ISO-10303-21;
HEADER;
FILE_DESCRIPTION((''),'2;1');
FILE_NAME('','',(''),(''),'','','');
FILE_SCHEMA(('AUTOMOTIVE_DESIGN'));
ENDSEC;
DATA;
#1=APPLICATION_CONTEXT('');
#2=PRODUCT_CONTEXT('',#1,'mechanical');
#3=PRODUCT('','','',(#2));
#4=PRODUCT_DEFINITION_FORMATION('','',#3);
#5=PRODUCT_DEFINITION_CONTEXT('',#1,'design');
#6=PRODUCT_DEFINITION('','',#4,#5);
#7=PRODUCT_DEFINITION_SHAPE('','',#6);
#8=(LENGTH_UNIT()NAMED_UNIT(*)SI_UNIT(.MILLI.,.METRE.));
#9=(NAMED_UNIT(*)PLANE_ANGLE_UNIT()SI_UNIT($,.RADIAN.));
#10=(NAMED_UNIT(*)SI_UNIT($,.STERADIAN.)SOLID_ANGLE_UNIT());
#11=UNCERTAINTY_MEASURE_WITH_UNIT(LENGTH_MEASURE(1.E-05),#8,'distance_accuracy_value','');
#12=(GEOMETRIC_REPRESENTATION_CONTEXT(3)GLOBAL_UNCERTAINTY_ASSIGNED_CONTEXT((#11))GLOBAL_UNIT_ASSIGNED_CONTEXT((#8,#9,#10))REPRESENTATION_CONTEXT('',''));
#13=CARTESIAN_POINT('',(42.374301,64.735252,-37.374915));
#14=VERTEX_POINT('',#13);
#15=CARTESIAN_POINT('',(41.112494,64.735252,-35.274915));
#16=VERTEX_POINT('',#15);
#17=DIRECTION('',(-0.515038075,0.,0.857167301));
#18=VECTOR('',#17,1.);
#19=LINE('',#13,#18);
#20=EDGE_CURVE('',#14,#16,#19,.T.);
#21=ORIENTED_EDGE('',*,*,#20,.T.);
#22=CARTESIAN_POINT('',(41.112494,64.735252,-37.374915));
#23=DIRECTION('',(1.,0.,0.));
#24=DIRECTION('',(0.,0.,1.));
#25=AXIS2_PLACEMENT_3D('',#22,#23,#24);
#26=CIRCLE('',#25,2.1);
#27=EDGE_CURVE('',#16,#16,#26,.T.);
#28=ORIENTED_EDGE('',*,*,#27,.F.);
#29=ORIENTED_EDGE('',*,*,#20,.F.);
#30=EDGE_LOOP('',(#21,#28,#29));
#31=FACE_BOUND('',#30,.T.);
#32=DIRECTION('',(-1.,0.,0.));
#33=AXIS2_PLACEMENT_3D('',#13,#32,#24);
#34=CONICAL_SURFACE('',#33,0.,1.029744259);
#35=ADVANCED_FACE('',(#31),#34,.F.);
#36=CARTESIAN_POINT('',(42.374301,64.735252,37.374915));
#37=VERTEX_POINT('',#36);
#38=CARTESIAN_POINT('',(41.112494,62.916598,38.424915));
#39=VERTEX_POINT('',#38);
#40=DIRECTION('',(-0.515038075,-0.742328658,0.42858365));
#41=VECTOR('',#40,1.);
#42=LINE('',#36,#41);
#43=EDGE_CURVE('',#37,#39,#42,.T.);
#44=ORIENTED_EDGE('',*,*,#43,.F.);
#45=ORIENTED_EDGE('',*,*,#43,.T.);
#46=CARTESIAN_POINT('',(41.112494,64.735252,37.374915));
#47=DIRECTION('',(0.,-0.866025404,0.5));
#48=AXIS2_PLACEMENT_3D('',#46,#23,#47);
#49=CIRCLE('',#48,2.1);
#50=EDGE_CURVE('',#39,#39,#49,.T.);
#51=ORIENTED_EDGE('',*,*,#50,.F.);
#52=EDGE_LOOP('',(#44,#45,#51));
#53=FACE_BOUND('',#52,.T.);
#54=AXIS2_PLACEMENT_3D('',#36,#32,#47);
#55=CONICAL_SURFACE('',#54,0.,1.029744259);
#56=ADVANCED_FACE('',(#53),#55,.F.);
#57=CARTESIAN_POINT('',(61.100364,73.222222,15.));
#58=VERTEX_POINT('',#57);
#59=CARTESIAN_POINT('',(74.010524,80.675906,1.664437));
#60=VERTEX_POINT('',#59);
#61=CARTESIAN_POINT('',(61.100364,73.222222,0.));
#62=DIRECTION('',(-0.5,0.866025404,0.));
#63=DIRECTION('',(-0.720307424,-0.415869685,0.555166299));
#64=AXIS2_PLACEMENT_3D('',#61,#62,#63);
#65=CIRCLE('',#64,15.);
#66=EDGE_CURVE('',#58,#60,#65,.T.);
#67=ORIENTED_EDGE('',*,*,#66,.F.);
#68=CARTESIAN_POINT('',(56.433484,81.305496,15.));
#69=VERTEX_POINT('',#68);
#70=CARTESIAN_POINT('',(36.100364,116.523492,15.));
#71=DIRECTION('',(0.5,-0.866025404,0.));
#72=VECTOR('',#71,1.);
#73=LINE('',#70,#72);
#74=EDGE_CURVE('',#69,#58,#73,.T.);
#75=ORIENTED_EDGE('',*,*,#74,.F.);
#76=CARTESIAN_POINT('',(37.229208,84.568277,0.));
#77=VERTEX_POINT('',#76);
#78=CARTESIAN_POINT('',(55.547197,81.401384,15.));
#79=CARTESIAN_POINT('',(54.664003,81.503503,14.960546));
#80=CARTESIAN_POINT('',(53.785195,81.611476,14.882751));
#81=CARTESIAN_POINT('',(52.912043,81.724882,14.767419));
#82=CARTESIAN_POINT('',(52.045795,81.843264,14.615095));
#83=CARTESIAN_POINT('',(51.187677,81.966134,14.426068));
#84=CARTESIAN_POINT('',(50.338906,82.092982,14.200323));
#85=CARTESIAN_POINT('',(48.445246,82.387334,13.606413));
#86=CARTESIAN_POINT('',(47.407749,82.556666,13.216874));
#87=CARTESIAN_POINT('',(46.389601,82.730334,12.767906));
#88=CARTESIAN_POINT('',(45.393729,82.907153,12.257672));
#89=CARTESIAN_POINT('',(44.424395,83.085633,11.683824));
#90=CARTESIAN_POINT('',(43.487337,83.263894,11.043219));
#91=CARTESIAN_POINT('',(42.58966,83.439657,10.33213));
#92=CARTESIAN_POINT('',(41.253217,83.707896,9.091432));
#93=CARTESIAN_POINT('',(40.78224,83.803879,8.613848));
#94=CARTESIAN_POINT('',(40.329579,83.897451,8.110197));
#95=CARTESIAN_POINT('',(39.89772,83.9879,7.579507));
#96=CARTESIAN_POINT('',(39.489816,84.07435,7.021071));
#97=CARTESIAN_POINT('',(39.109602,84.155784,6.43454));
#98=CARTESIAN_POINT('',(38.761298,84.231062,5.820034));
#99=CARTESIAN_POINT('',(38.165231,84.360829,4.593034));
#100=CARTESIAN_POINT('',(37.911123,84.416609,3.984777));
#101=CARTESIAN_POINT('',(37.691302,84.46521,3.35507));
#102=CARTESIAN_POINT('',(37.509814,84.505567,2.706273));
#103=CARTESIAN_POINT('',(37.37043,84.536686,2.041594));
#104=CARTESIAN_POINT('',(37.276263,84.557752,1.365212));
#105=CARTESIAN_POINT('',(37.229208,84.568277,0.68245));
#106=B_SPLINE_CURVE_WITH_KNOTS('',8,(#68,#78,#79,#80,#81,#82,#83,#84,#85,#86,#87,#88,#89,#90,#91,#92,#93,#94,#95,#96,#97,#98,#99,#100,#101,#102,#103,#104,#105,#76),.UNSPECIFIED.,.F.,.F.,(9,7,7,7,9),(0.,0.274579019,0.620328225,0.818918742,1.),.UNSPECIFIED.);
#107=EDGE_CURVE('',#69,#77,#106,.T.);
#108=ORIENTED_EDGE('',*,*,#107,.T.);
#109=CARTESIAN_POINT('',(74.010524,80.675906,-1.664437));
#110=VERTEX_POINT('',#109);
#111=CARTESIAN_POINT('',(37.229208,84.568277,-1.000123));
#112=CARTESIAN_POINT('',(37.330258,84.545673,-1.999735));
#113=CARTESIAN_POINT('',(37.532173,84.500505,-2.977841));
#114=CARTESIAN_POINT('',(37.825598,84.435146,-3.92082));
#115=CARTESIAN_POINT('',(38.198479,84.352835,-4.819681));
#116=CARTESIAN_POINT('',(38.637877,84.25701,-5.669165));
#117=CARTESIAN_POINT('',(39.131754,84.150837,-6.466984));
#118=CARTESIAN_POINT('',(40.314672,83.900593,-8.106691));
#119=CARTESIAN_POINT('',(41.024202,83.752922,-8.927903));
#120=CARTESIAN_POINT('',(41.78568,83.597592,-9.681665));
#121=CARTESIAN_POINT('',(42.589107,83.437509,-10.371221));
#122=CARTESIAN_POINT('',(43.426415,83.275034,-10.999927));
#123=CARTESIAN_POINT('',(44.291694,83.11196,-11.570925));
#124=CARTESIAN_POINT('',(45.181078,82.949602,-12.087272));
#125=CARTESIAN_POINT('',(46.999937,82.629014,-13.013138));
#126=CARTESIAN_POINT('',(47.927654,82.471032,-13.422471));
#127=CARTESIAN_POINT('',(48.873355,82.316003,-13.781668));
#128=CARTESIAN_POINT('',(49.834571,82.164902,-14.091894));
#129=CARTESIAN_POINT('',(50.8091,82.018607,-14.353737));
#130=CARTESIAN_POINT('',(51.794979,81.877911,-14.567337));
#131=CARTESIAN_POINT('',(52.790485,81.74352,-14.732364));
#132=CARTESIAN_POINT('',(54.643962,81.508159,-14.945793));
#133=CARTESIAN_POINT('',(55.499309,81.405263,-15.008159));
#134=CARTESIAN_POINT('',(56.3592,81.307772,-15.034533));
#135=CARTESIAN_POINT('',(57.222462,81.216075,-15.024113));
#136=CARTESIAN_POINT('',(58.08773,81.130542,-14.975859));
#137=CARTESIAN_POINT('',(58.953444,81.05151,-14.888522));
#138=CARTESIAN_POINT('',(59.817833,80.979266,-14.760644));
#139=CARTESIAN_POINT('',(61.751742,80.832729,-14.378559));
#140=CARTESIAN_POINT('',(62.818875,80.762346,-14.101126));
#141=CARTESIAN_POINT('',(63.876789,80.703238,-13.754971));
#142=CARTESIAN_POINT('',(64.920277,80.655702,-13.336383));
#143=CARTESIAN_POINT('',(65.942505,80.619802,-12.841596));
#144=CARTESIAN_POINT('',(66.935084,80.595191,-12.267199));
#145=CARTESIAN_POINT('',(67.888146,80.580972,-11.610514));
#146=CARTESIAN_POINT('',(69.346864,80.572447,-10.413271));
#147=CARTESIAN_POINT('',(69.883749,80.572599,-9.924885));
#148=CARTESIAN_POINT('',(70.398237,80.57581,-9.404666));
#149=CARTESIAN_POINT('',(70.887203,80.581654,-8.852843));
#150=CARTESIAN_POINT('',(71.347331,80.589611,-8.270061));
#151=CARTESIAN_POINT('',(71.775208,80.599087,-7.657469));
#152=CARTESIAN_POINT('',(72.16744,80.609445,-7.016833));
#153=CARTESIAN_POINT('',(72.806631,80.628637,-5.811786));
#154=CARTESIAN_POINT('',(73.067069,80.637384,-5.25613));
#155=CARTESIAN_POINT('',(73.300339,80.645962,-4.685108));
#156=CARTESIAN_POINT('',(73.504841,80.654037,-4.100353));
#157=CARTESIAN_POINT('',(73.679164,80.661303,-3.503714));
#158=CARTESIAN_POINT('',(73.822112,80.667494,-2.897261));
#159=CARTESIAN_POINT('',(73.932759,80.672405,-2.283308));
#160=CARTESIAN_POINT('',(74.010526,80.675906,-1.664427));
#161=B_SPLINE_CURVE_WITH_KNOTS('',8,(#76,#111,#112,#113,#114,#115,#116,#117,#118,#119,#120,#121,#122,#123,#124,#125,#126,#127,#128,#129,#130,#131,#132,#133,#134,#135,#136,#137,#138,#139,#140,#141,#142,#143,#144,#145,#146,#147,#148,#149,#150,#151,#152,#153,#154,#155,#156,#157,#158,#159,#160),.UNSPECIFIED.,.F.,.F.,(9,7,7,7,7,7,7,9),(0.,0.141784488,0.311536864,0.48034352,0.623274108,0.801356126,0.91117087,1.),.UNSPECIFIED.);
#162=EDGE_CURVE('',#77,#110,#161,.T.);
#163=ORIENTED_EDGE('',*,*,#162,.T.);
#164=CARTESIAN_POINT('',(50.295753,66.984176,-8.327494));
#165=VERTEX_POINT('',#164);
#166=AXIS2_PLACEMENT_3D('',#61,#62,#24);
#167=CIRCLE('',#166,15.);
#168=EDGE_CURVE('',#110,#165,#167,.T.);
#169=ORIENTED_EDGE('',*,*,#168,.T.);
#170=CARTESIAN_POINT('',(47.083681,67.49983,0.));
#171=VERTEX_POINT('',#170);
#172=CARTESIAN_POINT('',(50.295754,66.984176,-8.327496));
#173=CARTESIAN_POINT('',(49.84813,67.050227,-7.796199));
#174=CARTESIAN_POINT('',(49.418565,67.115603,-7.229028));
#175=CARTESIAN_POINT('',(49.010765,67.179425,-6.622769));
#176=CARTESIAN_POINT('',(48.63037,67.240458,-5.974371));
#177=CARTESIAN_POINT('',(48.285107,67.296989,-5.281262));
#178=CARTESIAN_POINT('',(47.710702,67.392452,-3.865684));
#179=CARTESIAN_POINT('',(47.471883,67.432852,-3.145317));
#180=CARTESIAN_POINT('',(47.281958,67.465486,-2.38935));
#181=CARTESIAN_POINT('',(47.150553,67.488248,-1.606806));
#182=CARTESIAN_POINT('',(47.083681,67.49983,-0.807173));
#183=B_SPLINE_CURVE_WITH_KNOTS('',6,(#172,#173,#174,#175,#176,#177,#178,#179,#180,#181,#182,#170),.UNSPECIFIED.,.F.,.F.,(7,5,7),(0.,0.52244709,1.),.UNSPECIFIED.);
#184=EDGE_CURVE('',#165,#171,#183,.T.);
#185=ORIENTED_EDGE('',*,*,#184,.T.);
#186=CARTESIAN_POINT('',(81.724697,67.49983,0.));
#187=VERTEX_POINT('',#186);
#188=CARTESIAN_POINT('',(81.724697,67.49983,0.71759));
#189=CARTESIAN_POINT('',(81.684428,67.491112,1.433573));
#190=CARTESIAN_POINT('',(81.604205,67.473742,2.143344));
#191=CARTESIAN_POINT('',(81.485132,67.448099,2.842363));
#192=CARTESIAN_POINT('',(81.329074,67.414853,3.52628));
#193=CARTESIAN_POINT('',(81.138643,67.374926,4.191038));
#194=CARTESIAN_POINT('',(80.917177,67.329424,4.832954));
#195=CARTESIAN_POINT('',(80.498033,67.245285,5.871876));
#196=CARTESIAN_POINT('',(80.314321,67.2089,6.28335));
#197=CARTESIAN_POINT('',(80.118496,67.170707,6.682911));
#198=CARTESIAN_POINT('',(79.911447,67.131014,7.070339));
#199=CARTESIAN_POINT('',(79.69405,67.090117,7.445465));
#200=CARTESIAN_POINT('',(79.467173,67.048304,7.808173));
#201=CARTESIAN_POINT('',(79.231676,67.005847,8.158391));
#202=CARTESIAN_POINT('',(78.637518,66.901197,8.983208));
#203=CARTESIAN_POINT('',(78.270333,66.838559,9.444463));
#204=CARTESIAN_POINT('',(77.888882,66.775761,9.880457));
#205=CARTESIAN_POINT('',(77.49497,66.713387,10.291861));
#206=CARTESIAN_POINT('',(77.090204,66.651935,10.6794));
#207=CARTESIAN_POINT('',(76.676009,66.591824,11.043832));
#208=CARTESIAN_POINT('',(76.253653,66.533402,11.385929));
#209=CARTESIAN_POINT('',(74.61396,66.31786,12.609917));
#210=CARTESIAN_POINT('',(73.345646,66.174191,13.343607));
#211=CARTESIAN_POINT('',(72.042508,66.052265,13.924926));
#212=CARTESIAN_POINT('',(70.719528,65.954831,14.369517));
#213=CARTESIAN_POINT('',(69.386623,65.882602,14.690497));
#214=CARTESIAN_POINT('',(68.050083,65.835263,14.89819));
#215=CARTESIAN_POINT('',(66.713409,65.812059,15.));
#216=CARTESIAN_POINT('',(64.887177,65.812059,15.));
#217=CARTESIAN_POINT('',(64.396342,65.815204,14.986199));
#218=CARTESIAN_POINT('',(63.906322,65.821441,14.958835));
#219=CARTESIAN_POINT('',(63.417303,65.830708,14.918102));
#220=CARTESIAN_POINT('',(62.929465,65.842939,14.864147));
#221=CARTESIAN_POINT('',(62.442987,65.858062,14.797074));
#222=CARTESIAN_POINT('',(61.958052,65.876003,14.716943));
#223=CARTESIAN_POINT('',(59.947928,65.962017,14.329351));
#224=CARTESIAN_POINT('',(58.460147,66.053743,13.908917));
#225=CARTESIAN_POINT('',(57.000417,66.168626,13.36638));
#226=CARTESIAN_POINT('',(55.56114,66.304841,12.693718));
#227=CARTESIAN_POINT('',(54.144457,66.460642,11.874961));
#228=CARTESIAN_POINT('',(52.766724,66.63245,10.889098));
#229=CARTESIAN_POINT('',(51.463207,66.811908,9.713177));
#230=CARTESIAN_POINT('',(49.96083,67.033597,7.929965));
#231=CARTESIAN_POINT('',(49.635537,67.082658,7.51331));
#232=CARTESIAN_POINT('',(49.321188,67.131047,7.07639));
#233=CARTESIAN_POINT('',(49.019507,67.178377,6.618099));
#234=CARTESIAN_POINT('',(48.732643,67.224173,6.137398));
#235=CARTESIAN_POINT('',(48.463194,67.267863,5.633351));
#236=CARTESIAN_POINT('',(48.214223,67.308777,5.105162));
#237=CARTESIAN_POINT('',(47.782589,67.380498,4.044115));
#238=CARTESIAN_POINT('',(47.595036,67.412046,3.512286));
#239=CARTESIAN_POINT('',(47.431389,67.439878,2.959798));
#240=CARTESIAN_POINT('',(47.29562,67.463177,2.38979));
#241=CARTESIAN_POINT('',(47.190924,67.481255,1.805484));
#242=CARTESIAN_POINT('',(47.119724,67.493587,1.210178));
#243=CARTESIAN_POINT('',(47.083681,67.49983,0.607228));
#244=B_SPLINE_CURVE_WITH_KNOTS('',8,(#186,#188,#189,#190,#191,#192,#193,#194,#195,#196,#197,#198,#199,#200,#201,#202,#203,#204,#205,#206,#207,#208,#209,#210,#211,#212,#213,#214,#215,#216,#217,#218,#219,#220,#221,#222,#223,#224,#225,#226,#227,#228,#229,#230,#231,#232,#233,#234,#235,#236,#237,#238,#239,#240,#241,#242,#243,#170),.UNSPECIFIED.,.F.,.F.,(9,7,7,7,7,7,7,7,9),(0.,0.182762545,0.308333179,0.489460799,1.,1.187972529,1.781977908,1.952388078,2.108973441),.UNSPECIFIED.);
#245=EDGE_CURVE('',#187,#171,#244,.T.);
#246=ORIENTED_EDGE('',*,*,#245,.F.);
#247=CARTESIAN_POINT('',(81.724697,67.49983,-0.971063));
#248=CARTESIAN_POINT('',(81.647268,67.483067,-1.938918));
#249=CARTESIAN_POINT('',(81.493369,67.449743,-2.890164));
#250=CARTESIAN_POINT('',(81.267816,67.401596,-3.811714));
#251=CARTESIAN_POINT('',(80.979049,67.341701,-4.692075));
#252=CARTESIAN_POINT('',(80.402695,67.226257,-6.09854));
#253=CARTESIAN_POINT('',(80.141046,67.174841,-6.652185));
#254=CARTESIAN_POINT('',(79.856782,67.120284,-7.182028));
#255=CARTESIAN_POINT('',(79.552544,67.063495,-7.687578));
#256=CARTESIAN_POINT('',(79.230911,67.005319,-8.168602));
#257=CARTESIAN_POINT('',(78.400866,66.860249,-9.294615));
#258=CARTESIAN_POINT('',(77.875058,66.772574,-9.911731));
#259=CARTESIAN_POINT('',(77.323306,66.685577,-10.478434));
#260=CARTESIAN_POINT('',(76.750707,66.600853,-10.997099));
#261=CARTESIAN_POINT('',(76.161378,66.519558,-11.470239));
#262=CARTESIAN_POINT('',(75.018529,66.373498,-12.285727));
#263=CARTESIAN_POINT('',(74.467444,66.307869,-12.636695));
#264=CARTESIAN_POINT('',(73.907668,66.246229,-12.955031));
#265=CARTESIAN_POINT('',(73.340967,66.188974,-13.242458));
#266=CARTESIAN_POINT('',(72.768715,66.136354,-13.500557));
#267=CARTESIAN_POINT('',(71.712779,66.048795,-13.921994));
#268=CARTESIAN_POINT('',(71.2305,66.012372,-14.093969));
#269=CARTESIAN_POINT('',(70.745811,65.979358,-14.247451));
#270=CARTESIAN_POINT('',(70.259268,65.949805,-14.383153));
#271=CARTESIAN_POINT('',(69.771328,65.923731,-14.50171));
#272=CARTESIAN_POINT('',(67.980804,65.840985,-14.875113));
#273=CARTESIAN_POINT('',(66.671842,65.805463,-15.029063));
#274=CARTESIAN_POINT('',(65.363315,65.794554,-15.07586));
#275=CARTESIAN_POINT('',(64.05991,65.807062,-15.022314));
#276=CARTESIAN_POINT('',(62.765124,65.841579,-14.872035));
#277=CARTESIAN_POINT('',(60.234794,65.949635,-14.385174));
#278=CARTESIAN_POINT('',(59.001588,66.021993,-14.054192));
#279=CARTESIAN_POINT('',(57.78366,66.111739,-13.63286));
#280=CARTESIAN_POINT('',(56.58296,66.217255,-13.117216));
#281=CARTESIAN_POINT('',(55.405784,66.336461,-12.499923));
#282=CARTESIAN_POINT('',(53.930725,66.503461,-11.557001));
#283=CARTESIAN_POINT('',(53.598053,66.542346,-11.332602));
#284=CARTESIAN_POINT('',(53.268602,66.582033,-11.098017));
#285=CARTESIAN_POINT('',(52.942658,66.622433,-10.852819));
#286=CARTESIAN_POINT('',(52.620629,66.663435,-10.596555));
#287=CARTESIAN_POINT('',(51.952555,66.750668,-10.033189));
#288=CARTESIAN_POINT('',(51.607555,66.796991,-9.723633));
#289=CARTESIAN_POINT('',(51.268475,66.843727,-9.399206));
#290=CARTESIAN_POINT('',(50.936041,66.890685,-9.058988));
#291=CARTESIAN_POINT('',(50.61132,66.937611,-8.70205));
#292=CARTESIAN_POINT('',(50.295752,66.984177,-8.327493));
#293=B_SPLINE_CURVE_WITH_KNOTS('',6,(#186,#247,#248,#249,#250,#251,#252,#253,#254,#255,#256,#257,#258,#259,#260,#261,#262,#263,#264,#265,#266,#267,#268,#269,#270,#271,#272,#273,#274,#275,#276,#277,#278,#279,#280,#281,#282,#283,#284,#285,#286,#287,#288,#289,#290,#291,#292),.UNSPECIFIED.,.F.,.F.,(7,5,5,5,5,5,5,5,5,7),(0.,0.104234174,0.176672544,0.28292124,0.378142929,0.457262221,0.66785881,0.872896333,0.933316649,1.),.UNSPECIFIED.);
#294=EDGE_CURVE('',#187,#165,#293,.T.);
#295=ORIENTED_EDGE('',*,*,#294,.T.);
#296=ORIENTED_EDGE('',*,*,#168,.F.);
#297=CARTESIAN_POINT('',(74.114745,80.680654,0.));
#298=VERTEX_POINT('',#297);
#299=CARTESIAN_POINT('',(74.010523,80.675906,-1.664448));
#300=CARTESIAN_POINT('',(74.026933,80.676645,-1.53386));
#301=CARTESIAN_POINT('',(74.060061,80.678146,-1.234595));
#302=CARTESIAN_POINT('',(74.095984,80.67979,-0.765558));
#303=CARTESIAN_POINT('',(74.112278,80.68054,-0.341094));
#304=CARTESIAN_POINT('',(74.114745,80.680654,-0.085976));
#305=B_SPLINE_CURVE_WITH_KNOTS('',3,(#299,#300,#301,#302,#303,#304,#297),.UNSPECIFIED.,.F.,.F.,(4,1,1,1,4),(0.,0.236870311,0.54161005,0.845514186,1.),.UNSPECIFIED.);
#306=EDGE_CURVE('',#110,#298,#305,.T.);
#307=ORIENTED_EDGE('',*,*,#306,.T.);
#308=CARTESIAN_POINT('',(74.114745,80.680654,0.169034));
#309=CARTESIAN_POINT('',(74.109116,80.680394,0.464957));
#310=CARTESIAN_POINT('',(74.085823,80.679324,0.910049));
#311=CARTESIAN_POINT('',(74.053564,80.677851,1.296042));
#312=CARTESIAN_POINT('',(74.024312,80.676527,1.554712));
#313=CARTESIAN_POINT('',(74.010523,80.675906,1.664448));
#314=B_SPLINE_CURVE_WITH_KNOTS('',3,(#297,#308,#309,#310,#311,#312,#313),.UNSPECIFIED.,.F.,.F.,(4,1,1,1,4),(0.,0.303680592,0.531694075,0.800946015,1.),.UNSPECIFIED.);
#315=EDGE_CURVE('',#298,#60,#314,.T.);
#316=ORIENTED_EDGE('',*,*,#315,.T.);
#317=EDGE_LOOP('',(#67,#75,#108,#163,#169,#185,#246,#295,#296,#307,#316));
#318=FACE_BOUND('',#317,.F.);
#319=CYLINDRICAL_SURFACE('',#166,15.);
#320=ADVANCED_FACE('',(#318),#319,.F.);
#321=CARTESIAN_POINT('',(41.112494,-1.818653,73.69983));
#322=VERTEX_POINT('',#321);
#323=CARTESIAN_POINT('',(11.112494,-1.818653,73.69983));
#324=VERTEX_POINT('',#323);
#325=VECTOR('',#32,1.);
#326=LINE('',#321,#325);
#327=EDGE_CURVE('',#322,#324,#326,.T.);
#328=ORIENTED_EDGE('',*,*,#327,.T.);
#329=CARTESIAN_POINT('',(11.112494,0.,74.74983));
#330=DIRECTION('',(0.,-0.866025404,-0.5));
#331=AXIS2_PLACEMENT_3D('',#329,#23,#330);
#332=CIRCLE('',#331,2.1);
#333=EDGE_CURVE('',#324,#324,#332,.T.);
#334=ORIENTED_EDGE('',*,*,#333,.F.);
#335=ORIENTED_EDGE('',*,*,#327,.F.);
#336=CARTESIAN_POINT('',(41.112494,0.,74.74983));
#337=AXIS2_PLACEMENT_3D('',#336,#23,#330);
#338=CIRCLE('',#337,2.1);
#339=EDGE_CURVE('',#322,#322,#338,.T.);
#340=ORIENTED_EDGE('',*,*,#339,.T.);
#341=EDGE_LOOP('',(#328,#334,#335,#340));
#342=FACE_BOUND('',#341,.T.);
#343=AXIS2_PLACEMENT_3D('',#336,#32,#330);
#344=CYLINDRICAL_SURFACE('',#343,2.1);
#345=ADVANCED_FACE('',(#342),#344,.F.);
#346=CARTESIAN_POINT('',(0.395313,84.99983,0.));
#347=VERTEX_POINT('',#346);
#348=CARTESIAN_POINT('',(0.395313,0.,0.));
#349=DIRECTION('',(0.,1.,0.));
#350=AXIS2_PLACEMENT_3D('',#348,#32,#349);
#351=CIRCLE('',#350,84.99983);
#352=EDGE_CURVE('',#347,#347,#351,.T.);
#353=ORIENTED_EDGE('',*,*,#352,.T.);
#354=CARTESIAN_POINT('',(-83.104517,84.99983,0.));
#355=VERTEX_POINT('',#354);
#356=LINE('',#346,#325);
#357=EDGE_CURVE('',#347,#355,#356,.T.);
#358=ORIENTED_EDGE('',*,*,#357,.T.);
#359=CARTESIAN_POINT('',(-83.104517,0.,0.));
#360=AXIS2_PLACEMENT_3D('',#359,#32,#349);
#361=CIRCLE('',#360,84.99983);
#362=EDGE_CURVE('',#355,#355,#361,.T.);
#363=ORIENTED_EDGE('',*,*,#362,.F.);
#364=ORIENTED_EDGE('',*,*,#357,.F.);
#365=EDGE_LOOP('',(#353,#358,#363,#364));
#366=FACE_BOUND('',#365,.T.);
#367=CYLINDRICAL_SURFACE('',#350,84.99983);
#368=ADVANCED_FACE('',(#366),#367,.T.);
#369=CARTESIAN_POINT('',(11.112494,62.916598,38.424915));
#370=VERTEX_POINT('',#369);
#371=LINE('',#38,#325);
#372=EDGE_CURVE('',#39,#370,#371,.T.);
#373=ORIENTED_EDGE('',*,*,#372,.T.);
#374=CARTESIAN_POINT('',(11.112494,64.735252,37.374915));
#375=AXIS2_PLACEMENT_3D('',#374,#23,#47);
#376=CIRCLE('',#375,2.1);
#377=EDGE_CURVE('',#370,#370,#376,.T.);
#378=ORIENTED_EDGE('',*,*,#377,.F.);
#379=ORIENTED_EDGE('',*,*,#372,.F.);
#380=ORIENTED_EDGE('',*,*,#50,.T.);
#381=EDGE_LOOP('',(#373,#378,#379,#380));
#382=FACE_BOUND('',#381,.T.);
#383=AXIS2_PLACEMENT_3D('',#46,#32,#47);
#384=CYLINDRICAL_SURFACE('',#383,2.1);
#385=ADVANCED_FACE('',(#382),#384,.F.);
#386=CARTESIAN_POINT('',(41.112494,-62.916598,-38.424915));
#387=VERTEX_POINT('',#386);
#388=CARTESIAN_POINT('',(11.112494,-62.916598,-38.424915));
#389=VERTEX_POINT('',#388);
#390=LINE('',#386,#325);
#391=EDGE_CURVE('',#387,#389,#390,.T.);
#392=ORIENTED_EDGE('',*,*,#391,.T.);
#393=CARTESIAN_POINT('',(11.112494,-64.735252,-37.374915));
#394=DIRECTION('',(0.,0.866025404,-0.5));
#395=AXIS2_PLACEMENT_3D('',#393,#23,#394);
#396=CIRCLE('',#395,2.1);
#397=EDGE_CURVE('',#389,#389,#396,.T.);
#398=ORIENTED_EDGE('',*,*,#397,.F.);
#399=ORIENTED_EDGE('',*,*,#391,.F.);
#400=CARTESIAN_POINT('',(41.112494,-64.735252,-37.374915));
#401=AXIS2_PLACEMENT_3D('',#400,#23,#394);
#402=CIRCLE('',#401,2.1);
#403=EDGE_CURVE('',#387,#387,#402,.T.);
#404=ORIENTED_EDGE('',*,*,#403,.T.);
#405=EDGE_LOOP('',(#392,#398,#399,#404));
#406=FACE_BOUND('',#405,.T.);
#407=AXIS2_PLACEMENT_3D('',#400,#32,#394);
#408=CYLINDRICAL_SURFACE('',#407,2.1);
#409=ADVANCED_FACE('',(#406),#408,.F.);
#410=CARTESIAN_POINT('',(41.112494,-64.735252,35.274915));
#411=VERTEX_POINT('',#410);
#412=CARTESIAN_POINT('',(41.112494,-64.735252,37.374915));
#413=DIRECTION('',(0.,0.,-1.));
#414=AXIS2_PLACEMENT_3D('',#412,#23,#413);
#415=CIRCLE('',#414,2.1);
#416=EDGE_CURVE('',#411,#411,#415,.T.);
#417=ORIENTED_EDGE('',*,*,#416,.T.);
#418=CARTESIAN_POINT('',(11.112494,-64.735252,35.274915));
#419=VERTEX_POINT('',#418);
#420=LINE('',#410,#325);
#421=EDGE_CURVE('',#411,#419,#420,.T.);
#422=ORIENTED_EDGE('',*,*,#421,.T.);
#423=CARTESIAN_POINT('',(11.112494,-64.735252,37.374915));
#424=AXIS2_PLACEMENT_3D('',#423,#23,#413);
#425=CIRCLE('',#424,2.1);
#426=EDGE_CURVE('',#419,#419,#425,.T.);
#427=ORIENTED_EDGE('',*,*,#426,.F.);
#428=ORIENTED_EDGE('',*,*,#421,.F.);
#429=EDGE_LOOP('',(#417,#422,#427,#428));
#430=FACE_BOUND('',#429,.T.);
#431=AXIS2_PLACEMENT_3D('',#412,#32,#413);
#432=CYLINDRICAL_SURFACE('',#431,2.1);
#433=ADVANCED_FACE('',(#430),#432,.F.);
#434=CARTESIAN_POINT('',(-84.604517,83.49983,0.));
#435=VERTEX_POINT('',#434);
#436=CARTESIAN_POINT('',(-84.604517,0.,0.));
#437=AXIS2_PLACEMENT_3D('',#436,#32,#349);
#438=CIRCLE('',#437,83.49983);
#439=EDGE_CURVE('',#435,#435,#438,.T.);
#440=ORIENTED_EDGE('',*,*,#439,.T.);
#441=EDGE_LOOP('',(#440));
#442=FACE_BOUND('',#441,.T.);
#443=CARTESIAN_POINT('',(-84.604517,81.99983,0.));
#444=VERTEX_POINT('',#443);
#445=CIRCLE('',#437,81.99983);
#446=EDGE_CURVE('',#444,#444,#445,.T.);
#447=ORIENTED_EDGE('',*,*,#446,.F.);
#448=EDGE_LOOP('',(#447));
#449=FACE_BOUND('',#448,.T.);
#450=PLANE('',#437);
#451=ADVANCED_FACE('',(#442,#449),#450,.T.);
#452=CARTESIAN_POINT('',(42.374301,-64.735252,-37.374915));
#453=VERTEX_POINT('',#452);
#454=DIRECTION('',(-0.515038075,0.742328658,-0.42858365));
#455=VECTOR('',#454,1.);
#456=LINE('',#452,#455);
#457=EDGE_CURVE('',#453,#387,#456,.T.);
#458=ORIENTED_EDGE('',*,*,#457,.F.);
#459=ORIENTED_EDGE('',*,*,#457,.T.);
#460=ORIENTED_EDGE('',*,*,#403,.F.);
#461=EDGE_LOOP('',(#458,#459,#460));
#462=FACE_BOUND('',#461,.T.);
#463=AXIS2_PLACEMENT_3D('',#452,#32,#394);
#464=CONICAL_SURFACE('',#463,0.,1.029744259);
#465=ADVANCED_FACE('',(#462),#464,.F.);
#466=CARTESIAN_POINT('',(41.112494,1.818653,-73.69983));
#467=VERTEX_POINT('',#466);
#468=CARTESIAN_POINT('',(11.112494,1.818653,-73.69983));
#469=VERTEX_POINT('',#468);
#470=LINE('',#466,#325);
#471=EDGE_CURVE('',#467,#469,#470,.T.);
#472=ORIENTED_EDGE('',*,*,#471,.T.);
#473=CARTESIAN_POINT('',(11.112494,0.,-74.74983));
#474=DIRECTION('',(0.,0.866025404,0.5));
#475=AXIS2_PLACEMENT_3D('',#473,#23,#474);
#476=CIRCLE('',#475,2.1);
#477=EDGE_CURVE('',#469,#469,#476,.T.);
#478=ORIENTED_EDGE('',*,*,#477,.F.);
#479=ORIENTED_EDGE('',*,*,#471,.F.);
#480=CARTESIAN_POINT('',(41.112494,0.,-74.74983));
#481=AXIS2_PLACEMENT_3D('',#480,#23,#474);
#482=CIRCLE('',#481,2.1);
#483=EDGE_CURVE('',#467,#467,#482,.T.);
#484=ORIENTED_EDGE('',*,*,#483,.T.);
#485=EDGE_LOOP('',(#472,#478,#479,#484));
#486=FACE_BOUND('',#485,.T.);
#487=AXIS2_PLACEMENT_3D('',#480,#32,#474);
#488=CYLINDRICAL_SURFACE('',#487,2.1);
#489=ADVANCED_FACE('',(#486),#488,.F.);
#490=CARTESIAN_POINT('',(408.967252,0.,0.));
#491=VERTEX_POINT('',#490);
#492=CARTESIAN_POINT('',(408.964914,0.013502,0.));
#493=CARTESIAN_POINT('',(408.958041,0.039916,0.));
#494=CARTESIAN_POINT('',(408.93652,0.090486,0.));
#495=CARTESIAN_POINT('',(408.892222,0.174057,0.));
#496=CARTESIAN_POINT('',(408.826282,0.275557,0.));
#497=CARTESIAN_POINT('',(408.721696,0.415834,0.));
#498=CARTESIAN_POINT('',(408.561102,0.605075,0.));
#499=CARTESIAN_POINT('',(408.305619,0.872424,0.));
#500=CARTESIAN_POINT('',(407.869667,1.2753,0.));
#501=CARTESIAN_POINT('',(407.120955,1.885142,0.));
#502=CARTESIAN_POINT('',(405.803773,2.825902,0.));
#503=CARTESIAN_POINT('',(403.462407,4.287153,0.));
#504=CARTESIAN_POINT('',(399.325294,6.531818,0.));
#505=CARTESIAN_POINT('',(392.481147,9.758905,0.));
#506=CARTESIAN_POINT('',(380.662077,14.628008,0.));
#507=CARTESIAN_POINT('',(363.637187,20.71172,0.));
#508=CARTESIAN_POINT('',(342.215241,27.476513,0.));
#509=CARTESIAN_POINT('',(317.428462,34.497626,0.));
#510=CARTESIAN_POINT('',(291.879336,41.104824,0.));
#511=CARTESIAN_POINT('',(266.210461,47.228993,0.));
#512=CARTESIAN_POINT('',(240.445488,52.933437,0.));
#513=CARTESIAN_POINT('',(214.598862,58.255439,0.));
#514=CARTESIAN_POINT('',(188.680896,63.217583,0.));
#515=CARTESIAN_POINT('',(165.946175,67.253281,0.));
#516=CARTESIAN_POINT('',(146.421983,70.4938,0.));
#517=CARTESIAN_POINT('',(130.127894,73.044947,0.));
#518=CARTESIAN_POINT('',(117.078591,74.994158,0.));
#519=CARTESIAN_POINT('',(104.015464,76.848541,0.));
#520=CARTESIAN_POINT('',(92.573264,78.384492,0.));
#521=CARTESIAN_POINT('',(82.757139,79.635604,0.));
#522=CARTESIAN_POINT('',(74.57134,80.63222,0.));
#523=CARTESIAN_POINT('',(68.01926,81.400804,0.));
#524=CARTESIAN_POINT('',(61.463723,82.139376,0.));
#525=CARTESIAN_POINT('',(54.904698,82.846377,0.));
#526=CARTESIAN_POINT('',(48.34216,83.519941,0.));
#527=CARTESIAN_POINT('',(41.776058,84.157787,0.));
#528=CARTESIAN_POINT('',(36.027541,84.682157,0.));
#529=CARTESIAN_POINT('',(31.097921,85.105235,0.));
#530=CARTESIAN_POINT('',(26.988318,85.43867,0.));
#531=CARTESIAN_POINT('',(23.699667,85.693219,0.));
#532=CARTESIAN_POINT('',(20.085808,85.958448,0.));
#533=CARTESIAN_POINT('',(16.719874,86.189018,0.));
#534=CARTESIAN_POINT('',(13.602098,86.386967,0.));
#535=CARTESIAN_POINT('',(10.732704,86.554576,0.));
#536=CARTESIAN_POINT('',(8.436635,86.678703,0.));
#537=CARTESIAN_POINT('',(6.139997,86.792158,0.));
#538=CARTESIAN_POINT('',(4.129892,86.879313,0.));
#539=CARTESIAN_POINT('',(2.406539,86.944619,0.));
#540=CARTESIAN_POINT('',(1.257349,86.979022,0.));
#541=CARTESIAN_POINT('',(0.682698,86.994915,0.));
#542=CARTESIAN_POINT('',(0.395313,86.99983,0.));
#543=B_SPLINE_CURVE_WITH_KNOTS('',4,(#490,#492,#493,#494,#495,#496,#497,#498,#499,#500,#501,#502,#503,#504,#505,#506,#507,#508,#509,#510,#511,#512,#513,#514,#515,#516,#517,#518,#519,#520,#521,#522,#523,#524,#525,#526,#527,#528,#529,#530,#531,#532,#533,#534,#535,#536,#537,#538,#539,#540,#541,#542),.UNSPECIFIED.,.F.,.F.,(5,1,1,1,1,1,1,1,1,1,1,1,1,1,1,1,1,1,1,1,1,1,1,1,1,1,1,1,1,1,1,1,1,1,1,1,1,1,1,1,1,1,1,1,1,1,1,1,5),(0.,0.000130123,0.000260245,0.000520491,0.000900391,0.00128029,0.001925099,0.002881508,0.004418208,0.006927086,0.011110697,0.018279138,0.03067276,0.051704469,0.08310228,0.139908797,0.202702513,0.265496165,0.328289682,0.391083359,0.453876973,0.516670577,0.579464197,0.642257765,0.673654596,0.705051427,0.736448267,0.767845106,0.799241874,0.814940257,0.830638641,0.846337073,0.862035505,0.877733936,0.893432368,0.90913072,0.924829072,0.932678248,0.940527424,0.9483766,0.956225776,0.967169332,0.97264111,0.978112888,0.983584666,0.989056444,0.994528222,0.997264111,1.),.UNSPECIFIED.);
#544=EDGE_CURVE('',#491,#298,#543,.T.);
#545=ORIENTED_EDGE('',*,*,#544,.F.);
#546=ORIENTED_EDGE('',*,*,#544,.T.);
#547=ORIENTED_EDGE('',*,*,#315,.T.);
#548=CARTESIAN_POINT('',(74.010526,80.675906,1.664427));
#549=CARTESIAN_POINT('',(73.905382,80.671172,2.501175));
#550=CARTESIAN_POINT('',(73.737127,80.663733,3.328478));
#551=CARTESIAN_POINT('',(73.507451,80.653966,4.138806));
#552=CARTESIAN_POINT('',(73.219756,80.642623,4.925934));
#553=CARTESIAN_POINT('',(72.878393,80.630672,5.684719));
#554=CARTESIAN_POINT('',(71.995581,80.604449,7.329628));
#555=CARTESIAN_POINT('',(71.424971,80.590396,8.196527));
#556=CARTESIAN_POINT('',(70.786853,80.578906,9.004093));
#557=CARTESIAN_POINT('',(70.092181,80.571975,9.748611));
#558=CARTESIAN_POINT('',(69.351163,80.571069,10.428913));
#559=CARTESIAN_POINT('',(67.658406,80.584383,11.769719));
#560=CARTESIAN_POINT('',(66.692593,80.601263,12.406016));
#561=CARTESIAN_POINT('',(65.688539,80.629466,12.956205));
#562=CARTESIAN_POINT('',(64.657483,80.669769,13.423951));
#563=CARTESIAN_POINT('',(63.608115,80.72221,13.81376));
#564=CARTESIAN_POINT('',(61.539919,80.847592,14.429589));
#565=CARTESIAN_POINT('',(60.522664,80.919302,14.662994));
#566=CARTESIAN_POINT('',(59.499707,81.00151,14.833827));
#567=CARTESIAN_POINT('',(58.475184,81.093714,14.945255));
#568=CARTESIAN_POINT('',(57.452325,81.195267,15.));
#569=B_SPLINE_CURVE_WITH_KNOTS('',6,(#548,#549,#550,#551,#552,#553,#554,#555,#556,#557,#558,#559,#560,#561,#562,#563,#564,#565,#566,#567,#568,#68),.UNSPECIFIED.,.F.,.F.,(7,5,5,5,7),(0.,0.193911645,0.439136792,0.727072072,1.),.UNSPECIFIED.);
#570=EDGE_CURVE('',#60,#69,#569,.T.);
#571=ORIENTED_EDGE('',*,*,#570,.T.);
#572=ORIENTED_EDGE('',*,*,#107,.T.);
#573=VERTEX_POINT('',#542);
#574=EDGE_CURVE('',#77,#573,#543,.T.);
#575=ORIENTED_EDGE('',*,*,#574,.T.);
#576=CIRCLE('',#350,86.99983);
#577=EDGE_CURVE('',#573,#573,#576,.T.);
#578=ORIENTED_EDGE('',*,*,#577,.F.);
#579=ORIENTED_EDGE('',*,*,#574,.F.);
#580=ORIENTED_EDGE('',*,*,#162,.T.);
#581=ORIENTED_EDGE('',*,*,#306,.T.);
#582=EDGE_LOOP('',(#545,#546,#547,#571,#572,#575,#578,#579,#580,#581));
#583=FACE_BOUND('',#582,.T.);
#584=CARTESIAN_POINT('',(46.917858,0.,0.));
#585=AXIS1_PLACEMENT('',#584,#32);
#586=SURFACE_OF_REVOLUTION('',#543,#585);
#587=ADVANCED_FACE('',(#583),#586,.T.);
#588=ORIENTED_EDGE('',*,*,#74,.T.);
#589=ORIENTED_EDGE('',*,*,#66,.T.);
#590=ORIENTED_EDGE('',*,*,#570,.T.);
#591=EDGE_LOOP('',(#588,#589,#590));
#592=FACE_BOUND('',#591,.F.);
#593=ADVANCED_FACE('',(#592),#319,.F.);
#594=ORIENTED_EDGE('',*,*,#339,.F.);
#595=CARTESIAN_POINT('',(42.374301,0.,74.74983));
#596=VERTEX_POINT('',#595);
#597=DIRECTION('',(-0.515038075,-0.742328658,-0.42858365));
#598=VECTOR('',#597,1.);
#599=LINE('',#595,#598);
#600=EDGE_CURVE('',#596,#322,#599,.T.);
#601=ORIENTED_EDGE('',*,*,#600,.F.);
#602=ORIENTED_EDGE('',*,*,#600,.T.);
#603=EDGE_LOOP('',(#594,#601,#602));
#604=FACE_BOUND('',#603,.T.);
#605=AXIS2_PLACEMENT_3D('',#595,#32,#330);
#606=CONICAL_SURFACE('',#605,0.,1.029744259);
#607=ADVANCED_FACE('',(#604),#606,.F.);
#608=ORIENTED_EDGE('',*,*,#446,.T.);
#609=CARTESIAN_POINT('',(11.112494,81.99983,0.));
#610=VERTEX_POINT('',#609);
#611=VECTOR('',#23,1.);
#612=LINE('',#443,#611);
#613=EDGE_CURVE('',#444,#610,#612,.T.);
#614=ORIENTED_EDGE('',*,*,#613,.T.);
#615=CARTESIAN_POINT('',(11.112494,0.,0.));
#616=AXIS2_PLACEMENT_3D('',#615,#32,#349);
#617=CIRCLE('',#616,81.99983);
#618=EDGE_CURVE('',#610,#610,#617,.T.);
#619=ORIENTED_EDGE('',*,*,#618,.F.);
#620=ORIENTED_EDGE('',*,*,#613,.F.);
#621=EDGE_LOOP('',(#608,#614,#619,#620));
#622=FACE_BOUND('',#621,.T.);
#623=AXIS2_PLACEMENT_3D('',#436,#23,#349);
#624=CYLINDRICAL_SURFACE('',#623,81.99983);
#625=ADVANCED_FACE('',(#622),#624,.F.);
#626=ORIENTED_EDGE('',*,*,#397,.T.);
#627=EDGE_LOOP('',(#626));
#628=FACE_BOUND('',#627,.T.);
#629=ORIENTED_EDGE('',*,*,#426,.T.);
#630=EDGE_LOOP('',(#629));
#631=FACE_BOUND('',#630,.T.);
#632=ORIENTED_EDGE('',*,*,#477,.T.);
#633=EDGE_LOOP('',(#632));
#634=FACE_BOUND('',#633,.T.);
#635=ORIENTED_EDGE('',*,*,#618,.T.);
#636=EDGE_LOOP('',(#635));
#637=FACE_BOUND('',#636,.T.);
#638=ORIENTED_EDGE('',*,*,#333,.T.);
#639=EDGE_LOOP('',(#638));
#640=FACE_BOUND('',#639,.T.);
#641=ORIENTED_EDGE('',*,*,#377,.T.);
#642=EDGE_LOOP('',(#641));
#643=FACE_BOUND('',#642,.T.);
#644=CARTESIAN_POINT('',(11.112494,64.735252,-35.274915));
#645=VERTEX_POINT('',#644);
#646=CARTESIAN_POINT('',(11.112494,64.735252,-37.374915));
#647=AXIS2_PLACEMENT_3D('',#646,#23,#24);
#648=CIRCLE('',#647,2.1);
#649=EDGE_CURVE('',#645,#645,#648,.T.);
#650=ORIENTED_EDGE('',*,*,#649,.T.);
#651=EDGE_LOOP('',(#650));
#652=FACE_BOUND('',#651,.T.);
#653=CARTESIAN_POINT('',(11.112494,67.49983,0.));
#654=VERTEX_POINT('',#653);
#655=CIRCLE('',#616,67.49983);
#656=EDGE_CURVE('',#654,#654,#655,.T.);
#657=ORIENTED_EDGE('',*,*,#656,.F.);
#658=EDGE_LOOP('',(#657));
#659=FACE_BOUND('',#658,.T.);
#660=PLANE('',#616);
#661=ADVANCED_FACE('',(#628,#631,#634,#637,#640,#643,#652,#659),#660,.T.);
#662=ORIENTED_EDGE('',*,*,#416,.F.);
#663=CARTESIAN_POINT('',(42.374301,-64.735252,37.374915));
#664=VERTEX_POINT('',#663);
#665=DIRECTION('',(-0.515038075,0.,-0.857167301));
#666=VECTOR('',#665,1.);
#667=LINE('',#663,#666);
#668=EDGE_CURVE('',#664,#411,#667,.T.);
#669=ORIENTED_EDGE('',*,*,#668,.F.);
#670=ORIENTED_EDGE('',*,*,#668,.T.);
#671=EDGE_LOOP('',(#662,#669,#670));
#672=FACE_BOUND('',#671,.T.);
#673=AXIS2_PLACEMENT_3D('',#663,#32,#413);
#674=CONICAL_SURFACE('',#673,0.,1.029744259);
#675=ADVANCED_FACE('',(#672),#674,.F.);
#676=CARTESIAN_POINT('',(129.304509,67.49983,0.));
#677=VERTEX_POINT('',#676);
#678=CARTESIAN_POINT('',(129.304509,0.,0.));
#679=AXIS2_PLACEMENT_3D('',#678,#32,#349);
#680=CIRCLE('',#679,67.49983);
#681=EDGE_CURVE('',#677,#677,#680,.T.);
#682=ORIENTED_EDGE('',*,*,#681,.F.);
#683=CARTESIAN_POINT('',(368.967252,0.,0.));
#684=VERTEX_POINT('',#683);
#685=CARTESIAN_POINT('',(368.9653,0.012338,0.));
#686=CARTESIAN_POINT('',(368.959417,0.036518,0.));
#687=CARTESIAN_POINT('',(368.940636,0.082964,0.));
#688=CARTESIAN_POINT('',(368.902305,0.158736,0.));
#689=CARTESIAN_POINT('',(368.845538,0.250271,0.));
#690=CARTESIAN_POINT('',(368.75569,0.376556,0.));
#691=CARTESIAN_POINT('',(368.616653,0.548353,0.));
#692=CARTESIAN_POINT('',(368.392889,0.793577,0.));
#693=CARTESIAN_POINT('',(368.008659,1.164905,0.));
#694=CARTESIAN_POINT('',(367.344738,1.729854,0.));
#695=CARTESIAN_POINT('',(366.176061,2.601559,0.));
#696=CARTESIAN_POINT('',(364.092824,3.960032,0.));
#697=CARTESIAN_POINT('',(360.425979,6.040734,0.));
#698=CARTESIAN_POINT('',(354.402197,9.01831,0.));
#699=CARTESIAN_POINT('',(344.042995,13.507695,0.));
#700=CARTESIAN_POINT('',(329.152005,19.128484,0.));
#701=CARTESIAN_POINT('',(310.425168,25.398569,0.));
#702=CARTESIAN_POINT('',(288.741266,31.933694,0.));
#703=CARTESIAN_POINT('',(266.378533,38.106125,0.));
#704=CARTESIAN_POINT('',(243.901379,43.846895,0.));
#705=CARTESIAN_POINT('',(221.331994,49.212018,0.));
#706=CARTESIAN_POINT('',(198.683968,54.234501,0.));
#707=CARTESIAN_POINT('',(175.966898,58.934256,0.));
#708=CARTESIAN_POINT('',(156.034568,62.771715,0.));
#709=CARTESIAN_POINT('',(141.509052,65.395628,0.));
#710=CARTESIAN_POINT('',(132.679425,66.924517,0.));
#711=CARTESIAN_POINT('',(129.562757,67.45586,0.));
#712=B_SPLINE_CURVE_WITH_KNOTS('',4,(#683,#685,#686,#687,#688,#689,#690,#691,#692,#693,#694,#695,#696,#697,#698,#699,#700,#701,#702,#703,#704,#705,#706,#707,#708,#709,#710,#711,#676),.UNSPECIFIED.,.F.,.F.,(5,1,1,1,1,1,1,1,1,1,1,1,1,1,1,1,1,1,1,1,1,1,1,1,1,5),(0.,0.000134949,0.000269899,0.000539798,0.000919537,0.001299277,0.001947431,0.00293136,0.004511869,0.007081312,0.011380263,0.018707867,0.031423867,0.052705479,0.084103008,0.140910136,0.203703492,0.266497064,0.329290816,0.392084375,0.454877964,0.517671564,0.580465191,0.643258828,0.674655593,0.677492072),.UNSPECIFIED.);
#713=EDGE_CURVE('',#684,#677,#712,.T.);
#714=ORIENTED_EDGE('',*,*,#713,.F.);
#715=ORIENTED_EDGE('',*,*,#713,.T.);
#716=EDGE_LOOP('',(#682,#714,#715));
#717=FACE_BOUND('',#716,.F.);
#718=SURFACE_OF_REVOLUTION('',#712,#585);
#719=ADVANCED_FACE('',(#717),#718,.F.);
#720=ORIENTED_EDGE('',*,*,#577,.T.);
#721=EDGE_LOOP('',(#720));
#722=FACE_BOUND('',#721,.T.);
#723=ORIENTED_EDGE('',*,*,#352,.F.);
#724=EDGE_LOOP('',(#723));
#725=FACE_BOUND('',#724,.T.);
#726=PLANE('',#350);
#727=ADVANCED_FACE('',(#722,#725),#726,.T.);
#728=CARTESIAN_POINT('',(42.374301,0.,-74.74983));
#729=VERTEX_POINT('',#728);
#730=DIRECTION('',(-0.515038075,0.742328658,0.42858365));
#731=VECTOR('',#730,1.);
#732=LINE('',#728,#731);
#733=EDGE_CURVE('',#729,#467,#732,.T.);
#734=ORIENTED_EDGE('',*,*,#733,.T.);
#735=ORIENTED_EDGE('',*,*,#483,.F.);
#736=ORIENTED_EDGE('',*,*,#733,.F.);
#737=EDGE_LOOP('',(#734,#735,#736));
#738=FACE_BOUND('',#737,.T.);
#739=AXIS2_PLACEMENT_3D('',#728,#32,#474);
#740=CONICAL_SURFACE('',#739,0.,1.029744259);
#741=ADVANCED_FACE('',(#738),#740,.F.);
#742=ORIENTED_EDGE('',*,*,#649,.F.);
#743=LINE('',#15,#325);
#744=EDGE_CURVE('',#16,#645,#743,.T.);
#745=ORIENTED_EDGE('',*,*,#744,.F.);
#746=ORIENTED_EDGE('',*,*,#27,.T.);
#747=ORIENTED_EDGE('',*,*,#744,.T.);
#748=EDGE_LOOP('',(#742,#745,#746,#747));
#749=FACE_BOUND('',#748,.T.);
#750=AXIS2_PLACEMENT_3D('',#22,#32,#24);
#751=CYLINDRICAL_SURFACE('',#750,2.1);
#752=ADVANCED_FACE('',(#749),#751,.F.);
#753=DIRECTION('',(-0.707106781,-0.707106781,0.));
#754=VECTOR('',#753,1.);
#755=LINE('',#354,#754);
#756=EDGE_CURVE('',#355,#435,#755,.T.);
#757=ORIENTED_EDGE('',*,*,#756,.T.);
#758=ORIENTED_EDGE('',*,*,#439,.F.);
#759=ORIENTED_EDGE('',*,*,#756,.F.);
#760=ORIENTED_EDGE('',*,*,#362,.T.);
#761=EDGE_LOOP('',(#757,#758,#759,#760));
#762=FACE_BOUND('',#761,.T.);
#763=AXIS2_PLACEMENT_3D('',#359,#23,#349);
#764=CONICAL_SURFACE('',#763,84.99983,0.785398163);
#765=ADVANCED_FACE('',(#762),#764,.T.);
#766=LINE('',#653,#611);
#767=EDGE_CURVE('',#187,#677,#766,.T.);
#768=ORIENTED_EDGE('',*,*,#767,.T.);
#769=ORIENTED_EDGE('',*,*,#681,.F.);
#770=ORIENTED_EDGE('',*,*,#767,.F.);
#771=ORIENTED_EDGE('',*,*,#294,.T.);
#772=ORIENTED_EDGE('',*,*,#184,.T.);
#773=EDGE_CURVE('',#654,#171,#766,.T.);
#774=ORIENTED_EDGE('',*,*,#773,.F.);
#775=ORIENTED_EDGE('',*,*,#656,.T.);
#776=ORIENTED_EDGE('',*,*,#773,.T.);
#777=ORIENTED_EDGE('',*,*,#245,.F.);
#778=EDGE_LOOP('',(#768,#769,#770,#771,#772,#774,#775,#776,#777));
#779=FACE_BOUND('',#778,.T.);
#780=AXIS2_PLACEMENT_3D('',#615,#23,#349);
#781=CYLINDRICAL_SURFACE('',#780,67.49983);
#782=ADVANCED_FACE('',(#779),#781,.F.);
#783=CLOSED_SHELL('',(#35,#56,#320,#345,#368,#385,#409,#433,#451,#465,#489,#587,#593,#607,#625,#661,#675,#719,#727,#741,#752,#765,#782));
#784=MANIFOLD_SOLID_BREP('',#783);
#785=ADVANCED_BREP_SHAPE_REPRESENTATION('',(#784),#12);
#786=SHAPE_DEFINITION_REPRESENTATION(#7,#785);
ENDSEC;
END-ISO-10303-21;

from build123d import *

# Parameters (mm, degrees)
CHAMFER1_SIZE      = 1.5
CIRPATTERN1_COUNT  = 6
SKETCH26_R         = 15
CUT_EXTRUDE5_DEPTH = 50
CUT_EXTRUDE6_START = 50
SKETCH26_2_R       = 15
CUT_EXTRUDE6_DEPTH = 50


with BuildPart() as part:
    # Sketch10 → Revolve1 (revolve)
    with BuildSketch(Plane.XY):
        with BuildLine():
            Line((11.112493743, 81.99983), (11.112493743, 67.49983))
            Line((11.112493743, 67.49983), (129.304508698, 67.49983))
            add(Edge.make_bspline(
                [(368.967251823, 0), (368.965299543, 0.012338489), (368.959416882, 0.036518378), (368.940636147, 0.082964007), (368.902304552, 0.158736421), (368.845538097, 0.250270687), (368.755690124, 0.376555746), (368.616653262, 0.54835284), (368.392888737, 0.793577299), (368.008659121, 1.164904965), (367.344738263, 1.729853685), (366.176060796, 2.601559154), (364.09282389, 3.960032328), (360.425978756, 6.040734396), (354.402196649, 9.01831007), (344.042994901, 13.507695011), (329.152005398, 19.128483965), (310.425167902, 25.398569259), (288.741266406, 31.933693508), (266.378532845, 38.106125474), (243.901379123, 43.846895186), (221.331994001, 49.212017941), (198.683967629, 54.234500927), (175.966897581, 58.934255644), (156.034567874, 62.771715365), (141.509051931, 65.395628269), (132.679425236, 66.924517444), (129.562757302, 67.455859883), (129.304508698, 67.49983)],
                knots=[0, 0, 0, 0, 0, 0.000134949, 0.000269899, 0.000539798, 0.000919537, 0.001299277, 0.001947431, 0.00293136, 0.004511869, 0.007081312, 0.011380263, 0.018707867, 0.031423867, 0.052705479, 0.084103008, 0.140910136, 0.203703492, 0.266497064, 0.329290816, 0.392084375, 0.454877964, 0.517671564, 0.580465191, 0.643258828, 0.674655593, 0.677492072, 0.677492072, 0.677492072, 0.677492072, 0.677492072], degree=4))
            Line((368.967251823, 0), (408.967251823, 0))
            add(Edge.make_bspline(
                [(408.967251823, 0), (408.964913524, 0.013501739), (408.958040758, 0.039916077), (408.936520441, 0.090485698), (408.892222076, 0.174057132), (408.826281575, 0.275556803), (408.721696416, 0.415833756), (408.561101809, 0.605075245), (408.30561918, 0.87242415), (407.86966713, 1.275299562), (407.120955138, 1.885142115), (405.803773451, 2.82590185), (403.46240692, 4.287152794), (399.325294488, 6.531818454), (392.481146888, 9.758904649), (380.662076725, 14.628008466), (363.637187185, 20.711720382), (342.215241093, 27.476512989), (317.428462321, 34.49762647), (291.879335737, 41.10482439), (266.21046092, 47.228993169), (240.44548836, 52.933436777), (214.598861982, 58.255439009), (188.68089566, 63.217582693), (165.946174917, 67.253280679), (146.421982586, 70.493799722), (130.127893898, 73.044947468), (117.078590637, 74.994157933), (104.015464216, 76.84854079), (92.573263959, 78.384492045), (82.757139441, 79.635603973), (74.571340184, 80.632219902), (68.019260454, 81.400804211), (61.463723364, 82.139375899), (54.90469802, 82.84637726), (48.342159918, 83.519940506), (41.776057559, 84.15778717), (36.02754108, 84.682157239), (31.097921259, 85.105234912), (26.988317923, 85.438669825), (23.699666618, 85.693218594), (20.085807822, 85.958448038), (16.719873821, 86.189018485), (13.602098287, 86.386966779), (10.732704013, 86.554575744), (8.436635008, 86.678703291), (6.139997341, 86.792157585), (4.129892063, 86.879313264), (2.40653858, 86.944618982), (1.257348635, 86.979022496), (0.68269791, 86.99491462), (0.395312527, 86.99983)],
                knots=[0, 0, 0, 0, 0, 0.000130123, 0.000260245, 0.000520491, 0.000900391, 0.00128029, 0.001925099, 0.002881508, 0.004418208, 0.006927086, 0.011110697, 0.018279138, 0.03067276, 0.051704469, 0.08310228, 0.139908797, 0.202702513, 0.265496165, 0.328289682, 0.391083359, 0.453876973, 0.516670577, 0.579464197, 0.642257765, 0.673654596, 0.705051427, 0.736448267, 0.767845106, 0.799241874, 0.814940257, 0.830638641, 0.846337073, 0.862035505, 0.877733936, 0.893432368, 0.90913072, 0.924829072, 0.932678248, 0.940527424, 0.9483766, 0.956225776, 0.967169332, 0.97264111, 0.978112888, 0.983584666, 0.989056444, 0.994528222, 0.997264111, 1, 1, 1, 1, 1], degree=4))
            Line((0.395312527, 86.99983), (0.395312527, 84.99983))
            Line((0.395312527, 84.99983), (-84.604517473, 84.99983))
            Line((-84.604517473, 84.99983), (-84.604517473, 81.99983))
            Line((-84.604517473, 81.99983), (11.112493743, 81.99983))
        make_face()
    revolve(axis=Axis((46.917858469, 0, 0), (-1, 0, 0)))

    # Chamfer1
    chamfer1_edges = [part.edges().sort_by_distance(p)[0] for p in [
        (-84.604517473, -84.99983, 0),
    ]]
    chamfer(chamfer1_edges, length=CHAMFER1_SIZE)

    # Sketch18 → Tapped Hole for M4x0.7 Helicoil1 (revolve, cut)
    with BuildSketch(Plane(origin=(11.112493743, 64.735251709, -37.374915), x_dir=(0, 0, 1), z_dir=(0, 1, 0))):
        Polygon((0, 0), (0, 31.2618073), (2.1, 30), (2.1, 0), align=None)
    tapped_hole_for_m4x0_7_helicoil1 = revolve(axis=Axis((4.762493743, 64.735251709, -37.374915), (1, 0, 0)), mode=Mode.SUBTRACT)

    # CirPattern1: Tapped Hole for M4x0.7 Helicoil1 ×6 about axis
    cirpattern1_axis = Axis((11.112493743, 0, 0), (1, 0, 0))
    for i in range(1, CIRPATTERN1_COUNT):
        add(tapped_hole_for_m4x0_7_helicoil1.rotate(cirpattern1_axis, i * 360 / CIRPATTERN1_COUNT), mode=Mode.SUBTRACT)

    # Sketch26 → Cut-Extrude5 (cut)
    with BuildSketch(Plane(origin=(-16.431060981, 28.459432441, 0), x_dir=(0, 0, 1), z_dir=(-0.500000000000001, 0.866025403784438, 0))):
        with Locations((0, 89.525578438)):
            Circle(SKETCH26_R)
    extrude(amount=-CUT_EXTRUDE5_DEPTH, mode=Mode.SUBTRACT)

    # Sketch26<2> → Cut-Extrude6 (cut)
    with BuildSketch(Plane(origin=(-16.431060981, 28.459432441, 0), x_dir=(0, 0, 1), z_dir=(-0.500000000000001, 0.866025403784438, 0)).offset(CUT_EXTRUDE6_START)):
        with Locations((0, 89.525578438)):
            Circle(SKETCH26_2_R)
    extrude(amount=-CUT_EXTRUDE6_DEPTH, mode=Mode.SUBTRACT)


solid = part.part
